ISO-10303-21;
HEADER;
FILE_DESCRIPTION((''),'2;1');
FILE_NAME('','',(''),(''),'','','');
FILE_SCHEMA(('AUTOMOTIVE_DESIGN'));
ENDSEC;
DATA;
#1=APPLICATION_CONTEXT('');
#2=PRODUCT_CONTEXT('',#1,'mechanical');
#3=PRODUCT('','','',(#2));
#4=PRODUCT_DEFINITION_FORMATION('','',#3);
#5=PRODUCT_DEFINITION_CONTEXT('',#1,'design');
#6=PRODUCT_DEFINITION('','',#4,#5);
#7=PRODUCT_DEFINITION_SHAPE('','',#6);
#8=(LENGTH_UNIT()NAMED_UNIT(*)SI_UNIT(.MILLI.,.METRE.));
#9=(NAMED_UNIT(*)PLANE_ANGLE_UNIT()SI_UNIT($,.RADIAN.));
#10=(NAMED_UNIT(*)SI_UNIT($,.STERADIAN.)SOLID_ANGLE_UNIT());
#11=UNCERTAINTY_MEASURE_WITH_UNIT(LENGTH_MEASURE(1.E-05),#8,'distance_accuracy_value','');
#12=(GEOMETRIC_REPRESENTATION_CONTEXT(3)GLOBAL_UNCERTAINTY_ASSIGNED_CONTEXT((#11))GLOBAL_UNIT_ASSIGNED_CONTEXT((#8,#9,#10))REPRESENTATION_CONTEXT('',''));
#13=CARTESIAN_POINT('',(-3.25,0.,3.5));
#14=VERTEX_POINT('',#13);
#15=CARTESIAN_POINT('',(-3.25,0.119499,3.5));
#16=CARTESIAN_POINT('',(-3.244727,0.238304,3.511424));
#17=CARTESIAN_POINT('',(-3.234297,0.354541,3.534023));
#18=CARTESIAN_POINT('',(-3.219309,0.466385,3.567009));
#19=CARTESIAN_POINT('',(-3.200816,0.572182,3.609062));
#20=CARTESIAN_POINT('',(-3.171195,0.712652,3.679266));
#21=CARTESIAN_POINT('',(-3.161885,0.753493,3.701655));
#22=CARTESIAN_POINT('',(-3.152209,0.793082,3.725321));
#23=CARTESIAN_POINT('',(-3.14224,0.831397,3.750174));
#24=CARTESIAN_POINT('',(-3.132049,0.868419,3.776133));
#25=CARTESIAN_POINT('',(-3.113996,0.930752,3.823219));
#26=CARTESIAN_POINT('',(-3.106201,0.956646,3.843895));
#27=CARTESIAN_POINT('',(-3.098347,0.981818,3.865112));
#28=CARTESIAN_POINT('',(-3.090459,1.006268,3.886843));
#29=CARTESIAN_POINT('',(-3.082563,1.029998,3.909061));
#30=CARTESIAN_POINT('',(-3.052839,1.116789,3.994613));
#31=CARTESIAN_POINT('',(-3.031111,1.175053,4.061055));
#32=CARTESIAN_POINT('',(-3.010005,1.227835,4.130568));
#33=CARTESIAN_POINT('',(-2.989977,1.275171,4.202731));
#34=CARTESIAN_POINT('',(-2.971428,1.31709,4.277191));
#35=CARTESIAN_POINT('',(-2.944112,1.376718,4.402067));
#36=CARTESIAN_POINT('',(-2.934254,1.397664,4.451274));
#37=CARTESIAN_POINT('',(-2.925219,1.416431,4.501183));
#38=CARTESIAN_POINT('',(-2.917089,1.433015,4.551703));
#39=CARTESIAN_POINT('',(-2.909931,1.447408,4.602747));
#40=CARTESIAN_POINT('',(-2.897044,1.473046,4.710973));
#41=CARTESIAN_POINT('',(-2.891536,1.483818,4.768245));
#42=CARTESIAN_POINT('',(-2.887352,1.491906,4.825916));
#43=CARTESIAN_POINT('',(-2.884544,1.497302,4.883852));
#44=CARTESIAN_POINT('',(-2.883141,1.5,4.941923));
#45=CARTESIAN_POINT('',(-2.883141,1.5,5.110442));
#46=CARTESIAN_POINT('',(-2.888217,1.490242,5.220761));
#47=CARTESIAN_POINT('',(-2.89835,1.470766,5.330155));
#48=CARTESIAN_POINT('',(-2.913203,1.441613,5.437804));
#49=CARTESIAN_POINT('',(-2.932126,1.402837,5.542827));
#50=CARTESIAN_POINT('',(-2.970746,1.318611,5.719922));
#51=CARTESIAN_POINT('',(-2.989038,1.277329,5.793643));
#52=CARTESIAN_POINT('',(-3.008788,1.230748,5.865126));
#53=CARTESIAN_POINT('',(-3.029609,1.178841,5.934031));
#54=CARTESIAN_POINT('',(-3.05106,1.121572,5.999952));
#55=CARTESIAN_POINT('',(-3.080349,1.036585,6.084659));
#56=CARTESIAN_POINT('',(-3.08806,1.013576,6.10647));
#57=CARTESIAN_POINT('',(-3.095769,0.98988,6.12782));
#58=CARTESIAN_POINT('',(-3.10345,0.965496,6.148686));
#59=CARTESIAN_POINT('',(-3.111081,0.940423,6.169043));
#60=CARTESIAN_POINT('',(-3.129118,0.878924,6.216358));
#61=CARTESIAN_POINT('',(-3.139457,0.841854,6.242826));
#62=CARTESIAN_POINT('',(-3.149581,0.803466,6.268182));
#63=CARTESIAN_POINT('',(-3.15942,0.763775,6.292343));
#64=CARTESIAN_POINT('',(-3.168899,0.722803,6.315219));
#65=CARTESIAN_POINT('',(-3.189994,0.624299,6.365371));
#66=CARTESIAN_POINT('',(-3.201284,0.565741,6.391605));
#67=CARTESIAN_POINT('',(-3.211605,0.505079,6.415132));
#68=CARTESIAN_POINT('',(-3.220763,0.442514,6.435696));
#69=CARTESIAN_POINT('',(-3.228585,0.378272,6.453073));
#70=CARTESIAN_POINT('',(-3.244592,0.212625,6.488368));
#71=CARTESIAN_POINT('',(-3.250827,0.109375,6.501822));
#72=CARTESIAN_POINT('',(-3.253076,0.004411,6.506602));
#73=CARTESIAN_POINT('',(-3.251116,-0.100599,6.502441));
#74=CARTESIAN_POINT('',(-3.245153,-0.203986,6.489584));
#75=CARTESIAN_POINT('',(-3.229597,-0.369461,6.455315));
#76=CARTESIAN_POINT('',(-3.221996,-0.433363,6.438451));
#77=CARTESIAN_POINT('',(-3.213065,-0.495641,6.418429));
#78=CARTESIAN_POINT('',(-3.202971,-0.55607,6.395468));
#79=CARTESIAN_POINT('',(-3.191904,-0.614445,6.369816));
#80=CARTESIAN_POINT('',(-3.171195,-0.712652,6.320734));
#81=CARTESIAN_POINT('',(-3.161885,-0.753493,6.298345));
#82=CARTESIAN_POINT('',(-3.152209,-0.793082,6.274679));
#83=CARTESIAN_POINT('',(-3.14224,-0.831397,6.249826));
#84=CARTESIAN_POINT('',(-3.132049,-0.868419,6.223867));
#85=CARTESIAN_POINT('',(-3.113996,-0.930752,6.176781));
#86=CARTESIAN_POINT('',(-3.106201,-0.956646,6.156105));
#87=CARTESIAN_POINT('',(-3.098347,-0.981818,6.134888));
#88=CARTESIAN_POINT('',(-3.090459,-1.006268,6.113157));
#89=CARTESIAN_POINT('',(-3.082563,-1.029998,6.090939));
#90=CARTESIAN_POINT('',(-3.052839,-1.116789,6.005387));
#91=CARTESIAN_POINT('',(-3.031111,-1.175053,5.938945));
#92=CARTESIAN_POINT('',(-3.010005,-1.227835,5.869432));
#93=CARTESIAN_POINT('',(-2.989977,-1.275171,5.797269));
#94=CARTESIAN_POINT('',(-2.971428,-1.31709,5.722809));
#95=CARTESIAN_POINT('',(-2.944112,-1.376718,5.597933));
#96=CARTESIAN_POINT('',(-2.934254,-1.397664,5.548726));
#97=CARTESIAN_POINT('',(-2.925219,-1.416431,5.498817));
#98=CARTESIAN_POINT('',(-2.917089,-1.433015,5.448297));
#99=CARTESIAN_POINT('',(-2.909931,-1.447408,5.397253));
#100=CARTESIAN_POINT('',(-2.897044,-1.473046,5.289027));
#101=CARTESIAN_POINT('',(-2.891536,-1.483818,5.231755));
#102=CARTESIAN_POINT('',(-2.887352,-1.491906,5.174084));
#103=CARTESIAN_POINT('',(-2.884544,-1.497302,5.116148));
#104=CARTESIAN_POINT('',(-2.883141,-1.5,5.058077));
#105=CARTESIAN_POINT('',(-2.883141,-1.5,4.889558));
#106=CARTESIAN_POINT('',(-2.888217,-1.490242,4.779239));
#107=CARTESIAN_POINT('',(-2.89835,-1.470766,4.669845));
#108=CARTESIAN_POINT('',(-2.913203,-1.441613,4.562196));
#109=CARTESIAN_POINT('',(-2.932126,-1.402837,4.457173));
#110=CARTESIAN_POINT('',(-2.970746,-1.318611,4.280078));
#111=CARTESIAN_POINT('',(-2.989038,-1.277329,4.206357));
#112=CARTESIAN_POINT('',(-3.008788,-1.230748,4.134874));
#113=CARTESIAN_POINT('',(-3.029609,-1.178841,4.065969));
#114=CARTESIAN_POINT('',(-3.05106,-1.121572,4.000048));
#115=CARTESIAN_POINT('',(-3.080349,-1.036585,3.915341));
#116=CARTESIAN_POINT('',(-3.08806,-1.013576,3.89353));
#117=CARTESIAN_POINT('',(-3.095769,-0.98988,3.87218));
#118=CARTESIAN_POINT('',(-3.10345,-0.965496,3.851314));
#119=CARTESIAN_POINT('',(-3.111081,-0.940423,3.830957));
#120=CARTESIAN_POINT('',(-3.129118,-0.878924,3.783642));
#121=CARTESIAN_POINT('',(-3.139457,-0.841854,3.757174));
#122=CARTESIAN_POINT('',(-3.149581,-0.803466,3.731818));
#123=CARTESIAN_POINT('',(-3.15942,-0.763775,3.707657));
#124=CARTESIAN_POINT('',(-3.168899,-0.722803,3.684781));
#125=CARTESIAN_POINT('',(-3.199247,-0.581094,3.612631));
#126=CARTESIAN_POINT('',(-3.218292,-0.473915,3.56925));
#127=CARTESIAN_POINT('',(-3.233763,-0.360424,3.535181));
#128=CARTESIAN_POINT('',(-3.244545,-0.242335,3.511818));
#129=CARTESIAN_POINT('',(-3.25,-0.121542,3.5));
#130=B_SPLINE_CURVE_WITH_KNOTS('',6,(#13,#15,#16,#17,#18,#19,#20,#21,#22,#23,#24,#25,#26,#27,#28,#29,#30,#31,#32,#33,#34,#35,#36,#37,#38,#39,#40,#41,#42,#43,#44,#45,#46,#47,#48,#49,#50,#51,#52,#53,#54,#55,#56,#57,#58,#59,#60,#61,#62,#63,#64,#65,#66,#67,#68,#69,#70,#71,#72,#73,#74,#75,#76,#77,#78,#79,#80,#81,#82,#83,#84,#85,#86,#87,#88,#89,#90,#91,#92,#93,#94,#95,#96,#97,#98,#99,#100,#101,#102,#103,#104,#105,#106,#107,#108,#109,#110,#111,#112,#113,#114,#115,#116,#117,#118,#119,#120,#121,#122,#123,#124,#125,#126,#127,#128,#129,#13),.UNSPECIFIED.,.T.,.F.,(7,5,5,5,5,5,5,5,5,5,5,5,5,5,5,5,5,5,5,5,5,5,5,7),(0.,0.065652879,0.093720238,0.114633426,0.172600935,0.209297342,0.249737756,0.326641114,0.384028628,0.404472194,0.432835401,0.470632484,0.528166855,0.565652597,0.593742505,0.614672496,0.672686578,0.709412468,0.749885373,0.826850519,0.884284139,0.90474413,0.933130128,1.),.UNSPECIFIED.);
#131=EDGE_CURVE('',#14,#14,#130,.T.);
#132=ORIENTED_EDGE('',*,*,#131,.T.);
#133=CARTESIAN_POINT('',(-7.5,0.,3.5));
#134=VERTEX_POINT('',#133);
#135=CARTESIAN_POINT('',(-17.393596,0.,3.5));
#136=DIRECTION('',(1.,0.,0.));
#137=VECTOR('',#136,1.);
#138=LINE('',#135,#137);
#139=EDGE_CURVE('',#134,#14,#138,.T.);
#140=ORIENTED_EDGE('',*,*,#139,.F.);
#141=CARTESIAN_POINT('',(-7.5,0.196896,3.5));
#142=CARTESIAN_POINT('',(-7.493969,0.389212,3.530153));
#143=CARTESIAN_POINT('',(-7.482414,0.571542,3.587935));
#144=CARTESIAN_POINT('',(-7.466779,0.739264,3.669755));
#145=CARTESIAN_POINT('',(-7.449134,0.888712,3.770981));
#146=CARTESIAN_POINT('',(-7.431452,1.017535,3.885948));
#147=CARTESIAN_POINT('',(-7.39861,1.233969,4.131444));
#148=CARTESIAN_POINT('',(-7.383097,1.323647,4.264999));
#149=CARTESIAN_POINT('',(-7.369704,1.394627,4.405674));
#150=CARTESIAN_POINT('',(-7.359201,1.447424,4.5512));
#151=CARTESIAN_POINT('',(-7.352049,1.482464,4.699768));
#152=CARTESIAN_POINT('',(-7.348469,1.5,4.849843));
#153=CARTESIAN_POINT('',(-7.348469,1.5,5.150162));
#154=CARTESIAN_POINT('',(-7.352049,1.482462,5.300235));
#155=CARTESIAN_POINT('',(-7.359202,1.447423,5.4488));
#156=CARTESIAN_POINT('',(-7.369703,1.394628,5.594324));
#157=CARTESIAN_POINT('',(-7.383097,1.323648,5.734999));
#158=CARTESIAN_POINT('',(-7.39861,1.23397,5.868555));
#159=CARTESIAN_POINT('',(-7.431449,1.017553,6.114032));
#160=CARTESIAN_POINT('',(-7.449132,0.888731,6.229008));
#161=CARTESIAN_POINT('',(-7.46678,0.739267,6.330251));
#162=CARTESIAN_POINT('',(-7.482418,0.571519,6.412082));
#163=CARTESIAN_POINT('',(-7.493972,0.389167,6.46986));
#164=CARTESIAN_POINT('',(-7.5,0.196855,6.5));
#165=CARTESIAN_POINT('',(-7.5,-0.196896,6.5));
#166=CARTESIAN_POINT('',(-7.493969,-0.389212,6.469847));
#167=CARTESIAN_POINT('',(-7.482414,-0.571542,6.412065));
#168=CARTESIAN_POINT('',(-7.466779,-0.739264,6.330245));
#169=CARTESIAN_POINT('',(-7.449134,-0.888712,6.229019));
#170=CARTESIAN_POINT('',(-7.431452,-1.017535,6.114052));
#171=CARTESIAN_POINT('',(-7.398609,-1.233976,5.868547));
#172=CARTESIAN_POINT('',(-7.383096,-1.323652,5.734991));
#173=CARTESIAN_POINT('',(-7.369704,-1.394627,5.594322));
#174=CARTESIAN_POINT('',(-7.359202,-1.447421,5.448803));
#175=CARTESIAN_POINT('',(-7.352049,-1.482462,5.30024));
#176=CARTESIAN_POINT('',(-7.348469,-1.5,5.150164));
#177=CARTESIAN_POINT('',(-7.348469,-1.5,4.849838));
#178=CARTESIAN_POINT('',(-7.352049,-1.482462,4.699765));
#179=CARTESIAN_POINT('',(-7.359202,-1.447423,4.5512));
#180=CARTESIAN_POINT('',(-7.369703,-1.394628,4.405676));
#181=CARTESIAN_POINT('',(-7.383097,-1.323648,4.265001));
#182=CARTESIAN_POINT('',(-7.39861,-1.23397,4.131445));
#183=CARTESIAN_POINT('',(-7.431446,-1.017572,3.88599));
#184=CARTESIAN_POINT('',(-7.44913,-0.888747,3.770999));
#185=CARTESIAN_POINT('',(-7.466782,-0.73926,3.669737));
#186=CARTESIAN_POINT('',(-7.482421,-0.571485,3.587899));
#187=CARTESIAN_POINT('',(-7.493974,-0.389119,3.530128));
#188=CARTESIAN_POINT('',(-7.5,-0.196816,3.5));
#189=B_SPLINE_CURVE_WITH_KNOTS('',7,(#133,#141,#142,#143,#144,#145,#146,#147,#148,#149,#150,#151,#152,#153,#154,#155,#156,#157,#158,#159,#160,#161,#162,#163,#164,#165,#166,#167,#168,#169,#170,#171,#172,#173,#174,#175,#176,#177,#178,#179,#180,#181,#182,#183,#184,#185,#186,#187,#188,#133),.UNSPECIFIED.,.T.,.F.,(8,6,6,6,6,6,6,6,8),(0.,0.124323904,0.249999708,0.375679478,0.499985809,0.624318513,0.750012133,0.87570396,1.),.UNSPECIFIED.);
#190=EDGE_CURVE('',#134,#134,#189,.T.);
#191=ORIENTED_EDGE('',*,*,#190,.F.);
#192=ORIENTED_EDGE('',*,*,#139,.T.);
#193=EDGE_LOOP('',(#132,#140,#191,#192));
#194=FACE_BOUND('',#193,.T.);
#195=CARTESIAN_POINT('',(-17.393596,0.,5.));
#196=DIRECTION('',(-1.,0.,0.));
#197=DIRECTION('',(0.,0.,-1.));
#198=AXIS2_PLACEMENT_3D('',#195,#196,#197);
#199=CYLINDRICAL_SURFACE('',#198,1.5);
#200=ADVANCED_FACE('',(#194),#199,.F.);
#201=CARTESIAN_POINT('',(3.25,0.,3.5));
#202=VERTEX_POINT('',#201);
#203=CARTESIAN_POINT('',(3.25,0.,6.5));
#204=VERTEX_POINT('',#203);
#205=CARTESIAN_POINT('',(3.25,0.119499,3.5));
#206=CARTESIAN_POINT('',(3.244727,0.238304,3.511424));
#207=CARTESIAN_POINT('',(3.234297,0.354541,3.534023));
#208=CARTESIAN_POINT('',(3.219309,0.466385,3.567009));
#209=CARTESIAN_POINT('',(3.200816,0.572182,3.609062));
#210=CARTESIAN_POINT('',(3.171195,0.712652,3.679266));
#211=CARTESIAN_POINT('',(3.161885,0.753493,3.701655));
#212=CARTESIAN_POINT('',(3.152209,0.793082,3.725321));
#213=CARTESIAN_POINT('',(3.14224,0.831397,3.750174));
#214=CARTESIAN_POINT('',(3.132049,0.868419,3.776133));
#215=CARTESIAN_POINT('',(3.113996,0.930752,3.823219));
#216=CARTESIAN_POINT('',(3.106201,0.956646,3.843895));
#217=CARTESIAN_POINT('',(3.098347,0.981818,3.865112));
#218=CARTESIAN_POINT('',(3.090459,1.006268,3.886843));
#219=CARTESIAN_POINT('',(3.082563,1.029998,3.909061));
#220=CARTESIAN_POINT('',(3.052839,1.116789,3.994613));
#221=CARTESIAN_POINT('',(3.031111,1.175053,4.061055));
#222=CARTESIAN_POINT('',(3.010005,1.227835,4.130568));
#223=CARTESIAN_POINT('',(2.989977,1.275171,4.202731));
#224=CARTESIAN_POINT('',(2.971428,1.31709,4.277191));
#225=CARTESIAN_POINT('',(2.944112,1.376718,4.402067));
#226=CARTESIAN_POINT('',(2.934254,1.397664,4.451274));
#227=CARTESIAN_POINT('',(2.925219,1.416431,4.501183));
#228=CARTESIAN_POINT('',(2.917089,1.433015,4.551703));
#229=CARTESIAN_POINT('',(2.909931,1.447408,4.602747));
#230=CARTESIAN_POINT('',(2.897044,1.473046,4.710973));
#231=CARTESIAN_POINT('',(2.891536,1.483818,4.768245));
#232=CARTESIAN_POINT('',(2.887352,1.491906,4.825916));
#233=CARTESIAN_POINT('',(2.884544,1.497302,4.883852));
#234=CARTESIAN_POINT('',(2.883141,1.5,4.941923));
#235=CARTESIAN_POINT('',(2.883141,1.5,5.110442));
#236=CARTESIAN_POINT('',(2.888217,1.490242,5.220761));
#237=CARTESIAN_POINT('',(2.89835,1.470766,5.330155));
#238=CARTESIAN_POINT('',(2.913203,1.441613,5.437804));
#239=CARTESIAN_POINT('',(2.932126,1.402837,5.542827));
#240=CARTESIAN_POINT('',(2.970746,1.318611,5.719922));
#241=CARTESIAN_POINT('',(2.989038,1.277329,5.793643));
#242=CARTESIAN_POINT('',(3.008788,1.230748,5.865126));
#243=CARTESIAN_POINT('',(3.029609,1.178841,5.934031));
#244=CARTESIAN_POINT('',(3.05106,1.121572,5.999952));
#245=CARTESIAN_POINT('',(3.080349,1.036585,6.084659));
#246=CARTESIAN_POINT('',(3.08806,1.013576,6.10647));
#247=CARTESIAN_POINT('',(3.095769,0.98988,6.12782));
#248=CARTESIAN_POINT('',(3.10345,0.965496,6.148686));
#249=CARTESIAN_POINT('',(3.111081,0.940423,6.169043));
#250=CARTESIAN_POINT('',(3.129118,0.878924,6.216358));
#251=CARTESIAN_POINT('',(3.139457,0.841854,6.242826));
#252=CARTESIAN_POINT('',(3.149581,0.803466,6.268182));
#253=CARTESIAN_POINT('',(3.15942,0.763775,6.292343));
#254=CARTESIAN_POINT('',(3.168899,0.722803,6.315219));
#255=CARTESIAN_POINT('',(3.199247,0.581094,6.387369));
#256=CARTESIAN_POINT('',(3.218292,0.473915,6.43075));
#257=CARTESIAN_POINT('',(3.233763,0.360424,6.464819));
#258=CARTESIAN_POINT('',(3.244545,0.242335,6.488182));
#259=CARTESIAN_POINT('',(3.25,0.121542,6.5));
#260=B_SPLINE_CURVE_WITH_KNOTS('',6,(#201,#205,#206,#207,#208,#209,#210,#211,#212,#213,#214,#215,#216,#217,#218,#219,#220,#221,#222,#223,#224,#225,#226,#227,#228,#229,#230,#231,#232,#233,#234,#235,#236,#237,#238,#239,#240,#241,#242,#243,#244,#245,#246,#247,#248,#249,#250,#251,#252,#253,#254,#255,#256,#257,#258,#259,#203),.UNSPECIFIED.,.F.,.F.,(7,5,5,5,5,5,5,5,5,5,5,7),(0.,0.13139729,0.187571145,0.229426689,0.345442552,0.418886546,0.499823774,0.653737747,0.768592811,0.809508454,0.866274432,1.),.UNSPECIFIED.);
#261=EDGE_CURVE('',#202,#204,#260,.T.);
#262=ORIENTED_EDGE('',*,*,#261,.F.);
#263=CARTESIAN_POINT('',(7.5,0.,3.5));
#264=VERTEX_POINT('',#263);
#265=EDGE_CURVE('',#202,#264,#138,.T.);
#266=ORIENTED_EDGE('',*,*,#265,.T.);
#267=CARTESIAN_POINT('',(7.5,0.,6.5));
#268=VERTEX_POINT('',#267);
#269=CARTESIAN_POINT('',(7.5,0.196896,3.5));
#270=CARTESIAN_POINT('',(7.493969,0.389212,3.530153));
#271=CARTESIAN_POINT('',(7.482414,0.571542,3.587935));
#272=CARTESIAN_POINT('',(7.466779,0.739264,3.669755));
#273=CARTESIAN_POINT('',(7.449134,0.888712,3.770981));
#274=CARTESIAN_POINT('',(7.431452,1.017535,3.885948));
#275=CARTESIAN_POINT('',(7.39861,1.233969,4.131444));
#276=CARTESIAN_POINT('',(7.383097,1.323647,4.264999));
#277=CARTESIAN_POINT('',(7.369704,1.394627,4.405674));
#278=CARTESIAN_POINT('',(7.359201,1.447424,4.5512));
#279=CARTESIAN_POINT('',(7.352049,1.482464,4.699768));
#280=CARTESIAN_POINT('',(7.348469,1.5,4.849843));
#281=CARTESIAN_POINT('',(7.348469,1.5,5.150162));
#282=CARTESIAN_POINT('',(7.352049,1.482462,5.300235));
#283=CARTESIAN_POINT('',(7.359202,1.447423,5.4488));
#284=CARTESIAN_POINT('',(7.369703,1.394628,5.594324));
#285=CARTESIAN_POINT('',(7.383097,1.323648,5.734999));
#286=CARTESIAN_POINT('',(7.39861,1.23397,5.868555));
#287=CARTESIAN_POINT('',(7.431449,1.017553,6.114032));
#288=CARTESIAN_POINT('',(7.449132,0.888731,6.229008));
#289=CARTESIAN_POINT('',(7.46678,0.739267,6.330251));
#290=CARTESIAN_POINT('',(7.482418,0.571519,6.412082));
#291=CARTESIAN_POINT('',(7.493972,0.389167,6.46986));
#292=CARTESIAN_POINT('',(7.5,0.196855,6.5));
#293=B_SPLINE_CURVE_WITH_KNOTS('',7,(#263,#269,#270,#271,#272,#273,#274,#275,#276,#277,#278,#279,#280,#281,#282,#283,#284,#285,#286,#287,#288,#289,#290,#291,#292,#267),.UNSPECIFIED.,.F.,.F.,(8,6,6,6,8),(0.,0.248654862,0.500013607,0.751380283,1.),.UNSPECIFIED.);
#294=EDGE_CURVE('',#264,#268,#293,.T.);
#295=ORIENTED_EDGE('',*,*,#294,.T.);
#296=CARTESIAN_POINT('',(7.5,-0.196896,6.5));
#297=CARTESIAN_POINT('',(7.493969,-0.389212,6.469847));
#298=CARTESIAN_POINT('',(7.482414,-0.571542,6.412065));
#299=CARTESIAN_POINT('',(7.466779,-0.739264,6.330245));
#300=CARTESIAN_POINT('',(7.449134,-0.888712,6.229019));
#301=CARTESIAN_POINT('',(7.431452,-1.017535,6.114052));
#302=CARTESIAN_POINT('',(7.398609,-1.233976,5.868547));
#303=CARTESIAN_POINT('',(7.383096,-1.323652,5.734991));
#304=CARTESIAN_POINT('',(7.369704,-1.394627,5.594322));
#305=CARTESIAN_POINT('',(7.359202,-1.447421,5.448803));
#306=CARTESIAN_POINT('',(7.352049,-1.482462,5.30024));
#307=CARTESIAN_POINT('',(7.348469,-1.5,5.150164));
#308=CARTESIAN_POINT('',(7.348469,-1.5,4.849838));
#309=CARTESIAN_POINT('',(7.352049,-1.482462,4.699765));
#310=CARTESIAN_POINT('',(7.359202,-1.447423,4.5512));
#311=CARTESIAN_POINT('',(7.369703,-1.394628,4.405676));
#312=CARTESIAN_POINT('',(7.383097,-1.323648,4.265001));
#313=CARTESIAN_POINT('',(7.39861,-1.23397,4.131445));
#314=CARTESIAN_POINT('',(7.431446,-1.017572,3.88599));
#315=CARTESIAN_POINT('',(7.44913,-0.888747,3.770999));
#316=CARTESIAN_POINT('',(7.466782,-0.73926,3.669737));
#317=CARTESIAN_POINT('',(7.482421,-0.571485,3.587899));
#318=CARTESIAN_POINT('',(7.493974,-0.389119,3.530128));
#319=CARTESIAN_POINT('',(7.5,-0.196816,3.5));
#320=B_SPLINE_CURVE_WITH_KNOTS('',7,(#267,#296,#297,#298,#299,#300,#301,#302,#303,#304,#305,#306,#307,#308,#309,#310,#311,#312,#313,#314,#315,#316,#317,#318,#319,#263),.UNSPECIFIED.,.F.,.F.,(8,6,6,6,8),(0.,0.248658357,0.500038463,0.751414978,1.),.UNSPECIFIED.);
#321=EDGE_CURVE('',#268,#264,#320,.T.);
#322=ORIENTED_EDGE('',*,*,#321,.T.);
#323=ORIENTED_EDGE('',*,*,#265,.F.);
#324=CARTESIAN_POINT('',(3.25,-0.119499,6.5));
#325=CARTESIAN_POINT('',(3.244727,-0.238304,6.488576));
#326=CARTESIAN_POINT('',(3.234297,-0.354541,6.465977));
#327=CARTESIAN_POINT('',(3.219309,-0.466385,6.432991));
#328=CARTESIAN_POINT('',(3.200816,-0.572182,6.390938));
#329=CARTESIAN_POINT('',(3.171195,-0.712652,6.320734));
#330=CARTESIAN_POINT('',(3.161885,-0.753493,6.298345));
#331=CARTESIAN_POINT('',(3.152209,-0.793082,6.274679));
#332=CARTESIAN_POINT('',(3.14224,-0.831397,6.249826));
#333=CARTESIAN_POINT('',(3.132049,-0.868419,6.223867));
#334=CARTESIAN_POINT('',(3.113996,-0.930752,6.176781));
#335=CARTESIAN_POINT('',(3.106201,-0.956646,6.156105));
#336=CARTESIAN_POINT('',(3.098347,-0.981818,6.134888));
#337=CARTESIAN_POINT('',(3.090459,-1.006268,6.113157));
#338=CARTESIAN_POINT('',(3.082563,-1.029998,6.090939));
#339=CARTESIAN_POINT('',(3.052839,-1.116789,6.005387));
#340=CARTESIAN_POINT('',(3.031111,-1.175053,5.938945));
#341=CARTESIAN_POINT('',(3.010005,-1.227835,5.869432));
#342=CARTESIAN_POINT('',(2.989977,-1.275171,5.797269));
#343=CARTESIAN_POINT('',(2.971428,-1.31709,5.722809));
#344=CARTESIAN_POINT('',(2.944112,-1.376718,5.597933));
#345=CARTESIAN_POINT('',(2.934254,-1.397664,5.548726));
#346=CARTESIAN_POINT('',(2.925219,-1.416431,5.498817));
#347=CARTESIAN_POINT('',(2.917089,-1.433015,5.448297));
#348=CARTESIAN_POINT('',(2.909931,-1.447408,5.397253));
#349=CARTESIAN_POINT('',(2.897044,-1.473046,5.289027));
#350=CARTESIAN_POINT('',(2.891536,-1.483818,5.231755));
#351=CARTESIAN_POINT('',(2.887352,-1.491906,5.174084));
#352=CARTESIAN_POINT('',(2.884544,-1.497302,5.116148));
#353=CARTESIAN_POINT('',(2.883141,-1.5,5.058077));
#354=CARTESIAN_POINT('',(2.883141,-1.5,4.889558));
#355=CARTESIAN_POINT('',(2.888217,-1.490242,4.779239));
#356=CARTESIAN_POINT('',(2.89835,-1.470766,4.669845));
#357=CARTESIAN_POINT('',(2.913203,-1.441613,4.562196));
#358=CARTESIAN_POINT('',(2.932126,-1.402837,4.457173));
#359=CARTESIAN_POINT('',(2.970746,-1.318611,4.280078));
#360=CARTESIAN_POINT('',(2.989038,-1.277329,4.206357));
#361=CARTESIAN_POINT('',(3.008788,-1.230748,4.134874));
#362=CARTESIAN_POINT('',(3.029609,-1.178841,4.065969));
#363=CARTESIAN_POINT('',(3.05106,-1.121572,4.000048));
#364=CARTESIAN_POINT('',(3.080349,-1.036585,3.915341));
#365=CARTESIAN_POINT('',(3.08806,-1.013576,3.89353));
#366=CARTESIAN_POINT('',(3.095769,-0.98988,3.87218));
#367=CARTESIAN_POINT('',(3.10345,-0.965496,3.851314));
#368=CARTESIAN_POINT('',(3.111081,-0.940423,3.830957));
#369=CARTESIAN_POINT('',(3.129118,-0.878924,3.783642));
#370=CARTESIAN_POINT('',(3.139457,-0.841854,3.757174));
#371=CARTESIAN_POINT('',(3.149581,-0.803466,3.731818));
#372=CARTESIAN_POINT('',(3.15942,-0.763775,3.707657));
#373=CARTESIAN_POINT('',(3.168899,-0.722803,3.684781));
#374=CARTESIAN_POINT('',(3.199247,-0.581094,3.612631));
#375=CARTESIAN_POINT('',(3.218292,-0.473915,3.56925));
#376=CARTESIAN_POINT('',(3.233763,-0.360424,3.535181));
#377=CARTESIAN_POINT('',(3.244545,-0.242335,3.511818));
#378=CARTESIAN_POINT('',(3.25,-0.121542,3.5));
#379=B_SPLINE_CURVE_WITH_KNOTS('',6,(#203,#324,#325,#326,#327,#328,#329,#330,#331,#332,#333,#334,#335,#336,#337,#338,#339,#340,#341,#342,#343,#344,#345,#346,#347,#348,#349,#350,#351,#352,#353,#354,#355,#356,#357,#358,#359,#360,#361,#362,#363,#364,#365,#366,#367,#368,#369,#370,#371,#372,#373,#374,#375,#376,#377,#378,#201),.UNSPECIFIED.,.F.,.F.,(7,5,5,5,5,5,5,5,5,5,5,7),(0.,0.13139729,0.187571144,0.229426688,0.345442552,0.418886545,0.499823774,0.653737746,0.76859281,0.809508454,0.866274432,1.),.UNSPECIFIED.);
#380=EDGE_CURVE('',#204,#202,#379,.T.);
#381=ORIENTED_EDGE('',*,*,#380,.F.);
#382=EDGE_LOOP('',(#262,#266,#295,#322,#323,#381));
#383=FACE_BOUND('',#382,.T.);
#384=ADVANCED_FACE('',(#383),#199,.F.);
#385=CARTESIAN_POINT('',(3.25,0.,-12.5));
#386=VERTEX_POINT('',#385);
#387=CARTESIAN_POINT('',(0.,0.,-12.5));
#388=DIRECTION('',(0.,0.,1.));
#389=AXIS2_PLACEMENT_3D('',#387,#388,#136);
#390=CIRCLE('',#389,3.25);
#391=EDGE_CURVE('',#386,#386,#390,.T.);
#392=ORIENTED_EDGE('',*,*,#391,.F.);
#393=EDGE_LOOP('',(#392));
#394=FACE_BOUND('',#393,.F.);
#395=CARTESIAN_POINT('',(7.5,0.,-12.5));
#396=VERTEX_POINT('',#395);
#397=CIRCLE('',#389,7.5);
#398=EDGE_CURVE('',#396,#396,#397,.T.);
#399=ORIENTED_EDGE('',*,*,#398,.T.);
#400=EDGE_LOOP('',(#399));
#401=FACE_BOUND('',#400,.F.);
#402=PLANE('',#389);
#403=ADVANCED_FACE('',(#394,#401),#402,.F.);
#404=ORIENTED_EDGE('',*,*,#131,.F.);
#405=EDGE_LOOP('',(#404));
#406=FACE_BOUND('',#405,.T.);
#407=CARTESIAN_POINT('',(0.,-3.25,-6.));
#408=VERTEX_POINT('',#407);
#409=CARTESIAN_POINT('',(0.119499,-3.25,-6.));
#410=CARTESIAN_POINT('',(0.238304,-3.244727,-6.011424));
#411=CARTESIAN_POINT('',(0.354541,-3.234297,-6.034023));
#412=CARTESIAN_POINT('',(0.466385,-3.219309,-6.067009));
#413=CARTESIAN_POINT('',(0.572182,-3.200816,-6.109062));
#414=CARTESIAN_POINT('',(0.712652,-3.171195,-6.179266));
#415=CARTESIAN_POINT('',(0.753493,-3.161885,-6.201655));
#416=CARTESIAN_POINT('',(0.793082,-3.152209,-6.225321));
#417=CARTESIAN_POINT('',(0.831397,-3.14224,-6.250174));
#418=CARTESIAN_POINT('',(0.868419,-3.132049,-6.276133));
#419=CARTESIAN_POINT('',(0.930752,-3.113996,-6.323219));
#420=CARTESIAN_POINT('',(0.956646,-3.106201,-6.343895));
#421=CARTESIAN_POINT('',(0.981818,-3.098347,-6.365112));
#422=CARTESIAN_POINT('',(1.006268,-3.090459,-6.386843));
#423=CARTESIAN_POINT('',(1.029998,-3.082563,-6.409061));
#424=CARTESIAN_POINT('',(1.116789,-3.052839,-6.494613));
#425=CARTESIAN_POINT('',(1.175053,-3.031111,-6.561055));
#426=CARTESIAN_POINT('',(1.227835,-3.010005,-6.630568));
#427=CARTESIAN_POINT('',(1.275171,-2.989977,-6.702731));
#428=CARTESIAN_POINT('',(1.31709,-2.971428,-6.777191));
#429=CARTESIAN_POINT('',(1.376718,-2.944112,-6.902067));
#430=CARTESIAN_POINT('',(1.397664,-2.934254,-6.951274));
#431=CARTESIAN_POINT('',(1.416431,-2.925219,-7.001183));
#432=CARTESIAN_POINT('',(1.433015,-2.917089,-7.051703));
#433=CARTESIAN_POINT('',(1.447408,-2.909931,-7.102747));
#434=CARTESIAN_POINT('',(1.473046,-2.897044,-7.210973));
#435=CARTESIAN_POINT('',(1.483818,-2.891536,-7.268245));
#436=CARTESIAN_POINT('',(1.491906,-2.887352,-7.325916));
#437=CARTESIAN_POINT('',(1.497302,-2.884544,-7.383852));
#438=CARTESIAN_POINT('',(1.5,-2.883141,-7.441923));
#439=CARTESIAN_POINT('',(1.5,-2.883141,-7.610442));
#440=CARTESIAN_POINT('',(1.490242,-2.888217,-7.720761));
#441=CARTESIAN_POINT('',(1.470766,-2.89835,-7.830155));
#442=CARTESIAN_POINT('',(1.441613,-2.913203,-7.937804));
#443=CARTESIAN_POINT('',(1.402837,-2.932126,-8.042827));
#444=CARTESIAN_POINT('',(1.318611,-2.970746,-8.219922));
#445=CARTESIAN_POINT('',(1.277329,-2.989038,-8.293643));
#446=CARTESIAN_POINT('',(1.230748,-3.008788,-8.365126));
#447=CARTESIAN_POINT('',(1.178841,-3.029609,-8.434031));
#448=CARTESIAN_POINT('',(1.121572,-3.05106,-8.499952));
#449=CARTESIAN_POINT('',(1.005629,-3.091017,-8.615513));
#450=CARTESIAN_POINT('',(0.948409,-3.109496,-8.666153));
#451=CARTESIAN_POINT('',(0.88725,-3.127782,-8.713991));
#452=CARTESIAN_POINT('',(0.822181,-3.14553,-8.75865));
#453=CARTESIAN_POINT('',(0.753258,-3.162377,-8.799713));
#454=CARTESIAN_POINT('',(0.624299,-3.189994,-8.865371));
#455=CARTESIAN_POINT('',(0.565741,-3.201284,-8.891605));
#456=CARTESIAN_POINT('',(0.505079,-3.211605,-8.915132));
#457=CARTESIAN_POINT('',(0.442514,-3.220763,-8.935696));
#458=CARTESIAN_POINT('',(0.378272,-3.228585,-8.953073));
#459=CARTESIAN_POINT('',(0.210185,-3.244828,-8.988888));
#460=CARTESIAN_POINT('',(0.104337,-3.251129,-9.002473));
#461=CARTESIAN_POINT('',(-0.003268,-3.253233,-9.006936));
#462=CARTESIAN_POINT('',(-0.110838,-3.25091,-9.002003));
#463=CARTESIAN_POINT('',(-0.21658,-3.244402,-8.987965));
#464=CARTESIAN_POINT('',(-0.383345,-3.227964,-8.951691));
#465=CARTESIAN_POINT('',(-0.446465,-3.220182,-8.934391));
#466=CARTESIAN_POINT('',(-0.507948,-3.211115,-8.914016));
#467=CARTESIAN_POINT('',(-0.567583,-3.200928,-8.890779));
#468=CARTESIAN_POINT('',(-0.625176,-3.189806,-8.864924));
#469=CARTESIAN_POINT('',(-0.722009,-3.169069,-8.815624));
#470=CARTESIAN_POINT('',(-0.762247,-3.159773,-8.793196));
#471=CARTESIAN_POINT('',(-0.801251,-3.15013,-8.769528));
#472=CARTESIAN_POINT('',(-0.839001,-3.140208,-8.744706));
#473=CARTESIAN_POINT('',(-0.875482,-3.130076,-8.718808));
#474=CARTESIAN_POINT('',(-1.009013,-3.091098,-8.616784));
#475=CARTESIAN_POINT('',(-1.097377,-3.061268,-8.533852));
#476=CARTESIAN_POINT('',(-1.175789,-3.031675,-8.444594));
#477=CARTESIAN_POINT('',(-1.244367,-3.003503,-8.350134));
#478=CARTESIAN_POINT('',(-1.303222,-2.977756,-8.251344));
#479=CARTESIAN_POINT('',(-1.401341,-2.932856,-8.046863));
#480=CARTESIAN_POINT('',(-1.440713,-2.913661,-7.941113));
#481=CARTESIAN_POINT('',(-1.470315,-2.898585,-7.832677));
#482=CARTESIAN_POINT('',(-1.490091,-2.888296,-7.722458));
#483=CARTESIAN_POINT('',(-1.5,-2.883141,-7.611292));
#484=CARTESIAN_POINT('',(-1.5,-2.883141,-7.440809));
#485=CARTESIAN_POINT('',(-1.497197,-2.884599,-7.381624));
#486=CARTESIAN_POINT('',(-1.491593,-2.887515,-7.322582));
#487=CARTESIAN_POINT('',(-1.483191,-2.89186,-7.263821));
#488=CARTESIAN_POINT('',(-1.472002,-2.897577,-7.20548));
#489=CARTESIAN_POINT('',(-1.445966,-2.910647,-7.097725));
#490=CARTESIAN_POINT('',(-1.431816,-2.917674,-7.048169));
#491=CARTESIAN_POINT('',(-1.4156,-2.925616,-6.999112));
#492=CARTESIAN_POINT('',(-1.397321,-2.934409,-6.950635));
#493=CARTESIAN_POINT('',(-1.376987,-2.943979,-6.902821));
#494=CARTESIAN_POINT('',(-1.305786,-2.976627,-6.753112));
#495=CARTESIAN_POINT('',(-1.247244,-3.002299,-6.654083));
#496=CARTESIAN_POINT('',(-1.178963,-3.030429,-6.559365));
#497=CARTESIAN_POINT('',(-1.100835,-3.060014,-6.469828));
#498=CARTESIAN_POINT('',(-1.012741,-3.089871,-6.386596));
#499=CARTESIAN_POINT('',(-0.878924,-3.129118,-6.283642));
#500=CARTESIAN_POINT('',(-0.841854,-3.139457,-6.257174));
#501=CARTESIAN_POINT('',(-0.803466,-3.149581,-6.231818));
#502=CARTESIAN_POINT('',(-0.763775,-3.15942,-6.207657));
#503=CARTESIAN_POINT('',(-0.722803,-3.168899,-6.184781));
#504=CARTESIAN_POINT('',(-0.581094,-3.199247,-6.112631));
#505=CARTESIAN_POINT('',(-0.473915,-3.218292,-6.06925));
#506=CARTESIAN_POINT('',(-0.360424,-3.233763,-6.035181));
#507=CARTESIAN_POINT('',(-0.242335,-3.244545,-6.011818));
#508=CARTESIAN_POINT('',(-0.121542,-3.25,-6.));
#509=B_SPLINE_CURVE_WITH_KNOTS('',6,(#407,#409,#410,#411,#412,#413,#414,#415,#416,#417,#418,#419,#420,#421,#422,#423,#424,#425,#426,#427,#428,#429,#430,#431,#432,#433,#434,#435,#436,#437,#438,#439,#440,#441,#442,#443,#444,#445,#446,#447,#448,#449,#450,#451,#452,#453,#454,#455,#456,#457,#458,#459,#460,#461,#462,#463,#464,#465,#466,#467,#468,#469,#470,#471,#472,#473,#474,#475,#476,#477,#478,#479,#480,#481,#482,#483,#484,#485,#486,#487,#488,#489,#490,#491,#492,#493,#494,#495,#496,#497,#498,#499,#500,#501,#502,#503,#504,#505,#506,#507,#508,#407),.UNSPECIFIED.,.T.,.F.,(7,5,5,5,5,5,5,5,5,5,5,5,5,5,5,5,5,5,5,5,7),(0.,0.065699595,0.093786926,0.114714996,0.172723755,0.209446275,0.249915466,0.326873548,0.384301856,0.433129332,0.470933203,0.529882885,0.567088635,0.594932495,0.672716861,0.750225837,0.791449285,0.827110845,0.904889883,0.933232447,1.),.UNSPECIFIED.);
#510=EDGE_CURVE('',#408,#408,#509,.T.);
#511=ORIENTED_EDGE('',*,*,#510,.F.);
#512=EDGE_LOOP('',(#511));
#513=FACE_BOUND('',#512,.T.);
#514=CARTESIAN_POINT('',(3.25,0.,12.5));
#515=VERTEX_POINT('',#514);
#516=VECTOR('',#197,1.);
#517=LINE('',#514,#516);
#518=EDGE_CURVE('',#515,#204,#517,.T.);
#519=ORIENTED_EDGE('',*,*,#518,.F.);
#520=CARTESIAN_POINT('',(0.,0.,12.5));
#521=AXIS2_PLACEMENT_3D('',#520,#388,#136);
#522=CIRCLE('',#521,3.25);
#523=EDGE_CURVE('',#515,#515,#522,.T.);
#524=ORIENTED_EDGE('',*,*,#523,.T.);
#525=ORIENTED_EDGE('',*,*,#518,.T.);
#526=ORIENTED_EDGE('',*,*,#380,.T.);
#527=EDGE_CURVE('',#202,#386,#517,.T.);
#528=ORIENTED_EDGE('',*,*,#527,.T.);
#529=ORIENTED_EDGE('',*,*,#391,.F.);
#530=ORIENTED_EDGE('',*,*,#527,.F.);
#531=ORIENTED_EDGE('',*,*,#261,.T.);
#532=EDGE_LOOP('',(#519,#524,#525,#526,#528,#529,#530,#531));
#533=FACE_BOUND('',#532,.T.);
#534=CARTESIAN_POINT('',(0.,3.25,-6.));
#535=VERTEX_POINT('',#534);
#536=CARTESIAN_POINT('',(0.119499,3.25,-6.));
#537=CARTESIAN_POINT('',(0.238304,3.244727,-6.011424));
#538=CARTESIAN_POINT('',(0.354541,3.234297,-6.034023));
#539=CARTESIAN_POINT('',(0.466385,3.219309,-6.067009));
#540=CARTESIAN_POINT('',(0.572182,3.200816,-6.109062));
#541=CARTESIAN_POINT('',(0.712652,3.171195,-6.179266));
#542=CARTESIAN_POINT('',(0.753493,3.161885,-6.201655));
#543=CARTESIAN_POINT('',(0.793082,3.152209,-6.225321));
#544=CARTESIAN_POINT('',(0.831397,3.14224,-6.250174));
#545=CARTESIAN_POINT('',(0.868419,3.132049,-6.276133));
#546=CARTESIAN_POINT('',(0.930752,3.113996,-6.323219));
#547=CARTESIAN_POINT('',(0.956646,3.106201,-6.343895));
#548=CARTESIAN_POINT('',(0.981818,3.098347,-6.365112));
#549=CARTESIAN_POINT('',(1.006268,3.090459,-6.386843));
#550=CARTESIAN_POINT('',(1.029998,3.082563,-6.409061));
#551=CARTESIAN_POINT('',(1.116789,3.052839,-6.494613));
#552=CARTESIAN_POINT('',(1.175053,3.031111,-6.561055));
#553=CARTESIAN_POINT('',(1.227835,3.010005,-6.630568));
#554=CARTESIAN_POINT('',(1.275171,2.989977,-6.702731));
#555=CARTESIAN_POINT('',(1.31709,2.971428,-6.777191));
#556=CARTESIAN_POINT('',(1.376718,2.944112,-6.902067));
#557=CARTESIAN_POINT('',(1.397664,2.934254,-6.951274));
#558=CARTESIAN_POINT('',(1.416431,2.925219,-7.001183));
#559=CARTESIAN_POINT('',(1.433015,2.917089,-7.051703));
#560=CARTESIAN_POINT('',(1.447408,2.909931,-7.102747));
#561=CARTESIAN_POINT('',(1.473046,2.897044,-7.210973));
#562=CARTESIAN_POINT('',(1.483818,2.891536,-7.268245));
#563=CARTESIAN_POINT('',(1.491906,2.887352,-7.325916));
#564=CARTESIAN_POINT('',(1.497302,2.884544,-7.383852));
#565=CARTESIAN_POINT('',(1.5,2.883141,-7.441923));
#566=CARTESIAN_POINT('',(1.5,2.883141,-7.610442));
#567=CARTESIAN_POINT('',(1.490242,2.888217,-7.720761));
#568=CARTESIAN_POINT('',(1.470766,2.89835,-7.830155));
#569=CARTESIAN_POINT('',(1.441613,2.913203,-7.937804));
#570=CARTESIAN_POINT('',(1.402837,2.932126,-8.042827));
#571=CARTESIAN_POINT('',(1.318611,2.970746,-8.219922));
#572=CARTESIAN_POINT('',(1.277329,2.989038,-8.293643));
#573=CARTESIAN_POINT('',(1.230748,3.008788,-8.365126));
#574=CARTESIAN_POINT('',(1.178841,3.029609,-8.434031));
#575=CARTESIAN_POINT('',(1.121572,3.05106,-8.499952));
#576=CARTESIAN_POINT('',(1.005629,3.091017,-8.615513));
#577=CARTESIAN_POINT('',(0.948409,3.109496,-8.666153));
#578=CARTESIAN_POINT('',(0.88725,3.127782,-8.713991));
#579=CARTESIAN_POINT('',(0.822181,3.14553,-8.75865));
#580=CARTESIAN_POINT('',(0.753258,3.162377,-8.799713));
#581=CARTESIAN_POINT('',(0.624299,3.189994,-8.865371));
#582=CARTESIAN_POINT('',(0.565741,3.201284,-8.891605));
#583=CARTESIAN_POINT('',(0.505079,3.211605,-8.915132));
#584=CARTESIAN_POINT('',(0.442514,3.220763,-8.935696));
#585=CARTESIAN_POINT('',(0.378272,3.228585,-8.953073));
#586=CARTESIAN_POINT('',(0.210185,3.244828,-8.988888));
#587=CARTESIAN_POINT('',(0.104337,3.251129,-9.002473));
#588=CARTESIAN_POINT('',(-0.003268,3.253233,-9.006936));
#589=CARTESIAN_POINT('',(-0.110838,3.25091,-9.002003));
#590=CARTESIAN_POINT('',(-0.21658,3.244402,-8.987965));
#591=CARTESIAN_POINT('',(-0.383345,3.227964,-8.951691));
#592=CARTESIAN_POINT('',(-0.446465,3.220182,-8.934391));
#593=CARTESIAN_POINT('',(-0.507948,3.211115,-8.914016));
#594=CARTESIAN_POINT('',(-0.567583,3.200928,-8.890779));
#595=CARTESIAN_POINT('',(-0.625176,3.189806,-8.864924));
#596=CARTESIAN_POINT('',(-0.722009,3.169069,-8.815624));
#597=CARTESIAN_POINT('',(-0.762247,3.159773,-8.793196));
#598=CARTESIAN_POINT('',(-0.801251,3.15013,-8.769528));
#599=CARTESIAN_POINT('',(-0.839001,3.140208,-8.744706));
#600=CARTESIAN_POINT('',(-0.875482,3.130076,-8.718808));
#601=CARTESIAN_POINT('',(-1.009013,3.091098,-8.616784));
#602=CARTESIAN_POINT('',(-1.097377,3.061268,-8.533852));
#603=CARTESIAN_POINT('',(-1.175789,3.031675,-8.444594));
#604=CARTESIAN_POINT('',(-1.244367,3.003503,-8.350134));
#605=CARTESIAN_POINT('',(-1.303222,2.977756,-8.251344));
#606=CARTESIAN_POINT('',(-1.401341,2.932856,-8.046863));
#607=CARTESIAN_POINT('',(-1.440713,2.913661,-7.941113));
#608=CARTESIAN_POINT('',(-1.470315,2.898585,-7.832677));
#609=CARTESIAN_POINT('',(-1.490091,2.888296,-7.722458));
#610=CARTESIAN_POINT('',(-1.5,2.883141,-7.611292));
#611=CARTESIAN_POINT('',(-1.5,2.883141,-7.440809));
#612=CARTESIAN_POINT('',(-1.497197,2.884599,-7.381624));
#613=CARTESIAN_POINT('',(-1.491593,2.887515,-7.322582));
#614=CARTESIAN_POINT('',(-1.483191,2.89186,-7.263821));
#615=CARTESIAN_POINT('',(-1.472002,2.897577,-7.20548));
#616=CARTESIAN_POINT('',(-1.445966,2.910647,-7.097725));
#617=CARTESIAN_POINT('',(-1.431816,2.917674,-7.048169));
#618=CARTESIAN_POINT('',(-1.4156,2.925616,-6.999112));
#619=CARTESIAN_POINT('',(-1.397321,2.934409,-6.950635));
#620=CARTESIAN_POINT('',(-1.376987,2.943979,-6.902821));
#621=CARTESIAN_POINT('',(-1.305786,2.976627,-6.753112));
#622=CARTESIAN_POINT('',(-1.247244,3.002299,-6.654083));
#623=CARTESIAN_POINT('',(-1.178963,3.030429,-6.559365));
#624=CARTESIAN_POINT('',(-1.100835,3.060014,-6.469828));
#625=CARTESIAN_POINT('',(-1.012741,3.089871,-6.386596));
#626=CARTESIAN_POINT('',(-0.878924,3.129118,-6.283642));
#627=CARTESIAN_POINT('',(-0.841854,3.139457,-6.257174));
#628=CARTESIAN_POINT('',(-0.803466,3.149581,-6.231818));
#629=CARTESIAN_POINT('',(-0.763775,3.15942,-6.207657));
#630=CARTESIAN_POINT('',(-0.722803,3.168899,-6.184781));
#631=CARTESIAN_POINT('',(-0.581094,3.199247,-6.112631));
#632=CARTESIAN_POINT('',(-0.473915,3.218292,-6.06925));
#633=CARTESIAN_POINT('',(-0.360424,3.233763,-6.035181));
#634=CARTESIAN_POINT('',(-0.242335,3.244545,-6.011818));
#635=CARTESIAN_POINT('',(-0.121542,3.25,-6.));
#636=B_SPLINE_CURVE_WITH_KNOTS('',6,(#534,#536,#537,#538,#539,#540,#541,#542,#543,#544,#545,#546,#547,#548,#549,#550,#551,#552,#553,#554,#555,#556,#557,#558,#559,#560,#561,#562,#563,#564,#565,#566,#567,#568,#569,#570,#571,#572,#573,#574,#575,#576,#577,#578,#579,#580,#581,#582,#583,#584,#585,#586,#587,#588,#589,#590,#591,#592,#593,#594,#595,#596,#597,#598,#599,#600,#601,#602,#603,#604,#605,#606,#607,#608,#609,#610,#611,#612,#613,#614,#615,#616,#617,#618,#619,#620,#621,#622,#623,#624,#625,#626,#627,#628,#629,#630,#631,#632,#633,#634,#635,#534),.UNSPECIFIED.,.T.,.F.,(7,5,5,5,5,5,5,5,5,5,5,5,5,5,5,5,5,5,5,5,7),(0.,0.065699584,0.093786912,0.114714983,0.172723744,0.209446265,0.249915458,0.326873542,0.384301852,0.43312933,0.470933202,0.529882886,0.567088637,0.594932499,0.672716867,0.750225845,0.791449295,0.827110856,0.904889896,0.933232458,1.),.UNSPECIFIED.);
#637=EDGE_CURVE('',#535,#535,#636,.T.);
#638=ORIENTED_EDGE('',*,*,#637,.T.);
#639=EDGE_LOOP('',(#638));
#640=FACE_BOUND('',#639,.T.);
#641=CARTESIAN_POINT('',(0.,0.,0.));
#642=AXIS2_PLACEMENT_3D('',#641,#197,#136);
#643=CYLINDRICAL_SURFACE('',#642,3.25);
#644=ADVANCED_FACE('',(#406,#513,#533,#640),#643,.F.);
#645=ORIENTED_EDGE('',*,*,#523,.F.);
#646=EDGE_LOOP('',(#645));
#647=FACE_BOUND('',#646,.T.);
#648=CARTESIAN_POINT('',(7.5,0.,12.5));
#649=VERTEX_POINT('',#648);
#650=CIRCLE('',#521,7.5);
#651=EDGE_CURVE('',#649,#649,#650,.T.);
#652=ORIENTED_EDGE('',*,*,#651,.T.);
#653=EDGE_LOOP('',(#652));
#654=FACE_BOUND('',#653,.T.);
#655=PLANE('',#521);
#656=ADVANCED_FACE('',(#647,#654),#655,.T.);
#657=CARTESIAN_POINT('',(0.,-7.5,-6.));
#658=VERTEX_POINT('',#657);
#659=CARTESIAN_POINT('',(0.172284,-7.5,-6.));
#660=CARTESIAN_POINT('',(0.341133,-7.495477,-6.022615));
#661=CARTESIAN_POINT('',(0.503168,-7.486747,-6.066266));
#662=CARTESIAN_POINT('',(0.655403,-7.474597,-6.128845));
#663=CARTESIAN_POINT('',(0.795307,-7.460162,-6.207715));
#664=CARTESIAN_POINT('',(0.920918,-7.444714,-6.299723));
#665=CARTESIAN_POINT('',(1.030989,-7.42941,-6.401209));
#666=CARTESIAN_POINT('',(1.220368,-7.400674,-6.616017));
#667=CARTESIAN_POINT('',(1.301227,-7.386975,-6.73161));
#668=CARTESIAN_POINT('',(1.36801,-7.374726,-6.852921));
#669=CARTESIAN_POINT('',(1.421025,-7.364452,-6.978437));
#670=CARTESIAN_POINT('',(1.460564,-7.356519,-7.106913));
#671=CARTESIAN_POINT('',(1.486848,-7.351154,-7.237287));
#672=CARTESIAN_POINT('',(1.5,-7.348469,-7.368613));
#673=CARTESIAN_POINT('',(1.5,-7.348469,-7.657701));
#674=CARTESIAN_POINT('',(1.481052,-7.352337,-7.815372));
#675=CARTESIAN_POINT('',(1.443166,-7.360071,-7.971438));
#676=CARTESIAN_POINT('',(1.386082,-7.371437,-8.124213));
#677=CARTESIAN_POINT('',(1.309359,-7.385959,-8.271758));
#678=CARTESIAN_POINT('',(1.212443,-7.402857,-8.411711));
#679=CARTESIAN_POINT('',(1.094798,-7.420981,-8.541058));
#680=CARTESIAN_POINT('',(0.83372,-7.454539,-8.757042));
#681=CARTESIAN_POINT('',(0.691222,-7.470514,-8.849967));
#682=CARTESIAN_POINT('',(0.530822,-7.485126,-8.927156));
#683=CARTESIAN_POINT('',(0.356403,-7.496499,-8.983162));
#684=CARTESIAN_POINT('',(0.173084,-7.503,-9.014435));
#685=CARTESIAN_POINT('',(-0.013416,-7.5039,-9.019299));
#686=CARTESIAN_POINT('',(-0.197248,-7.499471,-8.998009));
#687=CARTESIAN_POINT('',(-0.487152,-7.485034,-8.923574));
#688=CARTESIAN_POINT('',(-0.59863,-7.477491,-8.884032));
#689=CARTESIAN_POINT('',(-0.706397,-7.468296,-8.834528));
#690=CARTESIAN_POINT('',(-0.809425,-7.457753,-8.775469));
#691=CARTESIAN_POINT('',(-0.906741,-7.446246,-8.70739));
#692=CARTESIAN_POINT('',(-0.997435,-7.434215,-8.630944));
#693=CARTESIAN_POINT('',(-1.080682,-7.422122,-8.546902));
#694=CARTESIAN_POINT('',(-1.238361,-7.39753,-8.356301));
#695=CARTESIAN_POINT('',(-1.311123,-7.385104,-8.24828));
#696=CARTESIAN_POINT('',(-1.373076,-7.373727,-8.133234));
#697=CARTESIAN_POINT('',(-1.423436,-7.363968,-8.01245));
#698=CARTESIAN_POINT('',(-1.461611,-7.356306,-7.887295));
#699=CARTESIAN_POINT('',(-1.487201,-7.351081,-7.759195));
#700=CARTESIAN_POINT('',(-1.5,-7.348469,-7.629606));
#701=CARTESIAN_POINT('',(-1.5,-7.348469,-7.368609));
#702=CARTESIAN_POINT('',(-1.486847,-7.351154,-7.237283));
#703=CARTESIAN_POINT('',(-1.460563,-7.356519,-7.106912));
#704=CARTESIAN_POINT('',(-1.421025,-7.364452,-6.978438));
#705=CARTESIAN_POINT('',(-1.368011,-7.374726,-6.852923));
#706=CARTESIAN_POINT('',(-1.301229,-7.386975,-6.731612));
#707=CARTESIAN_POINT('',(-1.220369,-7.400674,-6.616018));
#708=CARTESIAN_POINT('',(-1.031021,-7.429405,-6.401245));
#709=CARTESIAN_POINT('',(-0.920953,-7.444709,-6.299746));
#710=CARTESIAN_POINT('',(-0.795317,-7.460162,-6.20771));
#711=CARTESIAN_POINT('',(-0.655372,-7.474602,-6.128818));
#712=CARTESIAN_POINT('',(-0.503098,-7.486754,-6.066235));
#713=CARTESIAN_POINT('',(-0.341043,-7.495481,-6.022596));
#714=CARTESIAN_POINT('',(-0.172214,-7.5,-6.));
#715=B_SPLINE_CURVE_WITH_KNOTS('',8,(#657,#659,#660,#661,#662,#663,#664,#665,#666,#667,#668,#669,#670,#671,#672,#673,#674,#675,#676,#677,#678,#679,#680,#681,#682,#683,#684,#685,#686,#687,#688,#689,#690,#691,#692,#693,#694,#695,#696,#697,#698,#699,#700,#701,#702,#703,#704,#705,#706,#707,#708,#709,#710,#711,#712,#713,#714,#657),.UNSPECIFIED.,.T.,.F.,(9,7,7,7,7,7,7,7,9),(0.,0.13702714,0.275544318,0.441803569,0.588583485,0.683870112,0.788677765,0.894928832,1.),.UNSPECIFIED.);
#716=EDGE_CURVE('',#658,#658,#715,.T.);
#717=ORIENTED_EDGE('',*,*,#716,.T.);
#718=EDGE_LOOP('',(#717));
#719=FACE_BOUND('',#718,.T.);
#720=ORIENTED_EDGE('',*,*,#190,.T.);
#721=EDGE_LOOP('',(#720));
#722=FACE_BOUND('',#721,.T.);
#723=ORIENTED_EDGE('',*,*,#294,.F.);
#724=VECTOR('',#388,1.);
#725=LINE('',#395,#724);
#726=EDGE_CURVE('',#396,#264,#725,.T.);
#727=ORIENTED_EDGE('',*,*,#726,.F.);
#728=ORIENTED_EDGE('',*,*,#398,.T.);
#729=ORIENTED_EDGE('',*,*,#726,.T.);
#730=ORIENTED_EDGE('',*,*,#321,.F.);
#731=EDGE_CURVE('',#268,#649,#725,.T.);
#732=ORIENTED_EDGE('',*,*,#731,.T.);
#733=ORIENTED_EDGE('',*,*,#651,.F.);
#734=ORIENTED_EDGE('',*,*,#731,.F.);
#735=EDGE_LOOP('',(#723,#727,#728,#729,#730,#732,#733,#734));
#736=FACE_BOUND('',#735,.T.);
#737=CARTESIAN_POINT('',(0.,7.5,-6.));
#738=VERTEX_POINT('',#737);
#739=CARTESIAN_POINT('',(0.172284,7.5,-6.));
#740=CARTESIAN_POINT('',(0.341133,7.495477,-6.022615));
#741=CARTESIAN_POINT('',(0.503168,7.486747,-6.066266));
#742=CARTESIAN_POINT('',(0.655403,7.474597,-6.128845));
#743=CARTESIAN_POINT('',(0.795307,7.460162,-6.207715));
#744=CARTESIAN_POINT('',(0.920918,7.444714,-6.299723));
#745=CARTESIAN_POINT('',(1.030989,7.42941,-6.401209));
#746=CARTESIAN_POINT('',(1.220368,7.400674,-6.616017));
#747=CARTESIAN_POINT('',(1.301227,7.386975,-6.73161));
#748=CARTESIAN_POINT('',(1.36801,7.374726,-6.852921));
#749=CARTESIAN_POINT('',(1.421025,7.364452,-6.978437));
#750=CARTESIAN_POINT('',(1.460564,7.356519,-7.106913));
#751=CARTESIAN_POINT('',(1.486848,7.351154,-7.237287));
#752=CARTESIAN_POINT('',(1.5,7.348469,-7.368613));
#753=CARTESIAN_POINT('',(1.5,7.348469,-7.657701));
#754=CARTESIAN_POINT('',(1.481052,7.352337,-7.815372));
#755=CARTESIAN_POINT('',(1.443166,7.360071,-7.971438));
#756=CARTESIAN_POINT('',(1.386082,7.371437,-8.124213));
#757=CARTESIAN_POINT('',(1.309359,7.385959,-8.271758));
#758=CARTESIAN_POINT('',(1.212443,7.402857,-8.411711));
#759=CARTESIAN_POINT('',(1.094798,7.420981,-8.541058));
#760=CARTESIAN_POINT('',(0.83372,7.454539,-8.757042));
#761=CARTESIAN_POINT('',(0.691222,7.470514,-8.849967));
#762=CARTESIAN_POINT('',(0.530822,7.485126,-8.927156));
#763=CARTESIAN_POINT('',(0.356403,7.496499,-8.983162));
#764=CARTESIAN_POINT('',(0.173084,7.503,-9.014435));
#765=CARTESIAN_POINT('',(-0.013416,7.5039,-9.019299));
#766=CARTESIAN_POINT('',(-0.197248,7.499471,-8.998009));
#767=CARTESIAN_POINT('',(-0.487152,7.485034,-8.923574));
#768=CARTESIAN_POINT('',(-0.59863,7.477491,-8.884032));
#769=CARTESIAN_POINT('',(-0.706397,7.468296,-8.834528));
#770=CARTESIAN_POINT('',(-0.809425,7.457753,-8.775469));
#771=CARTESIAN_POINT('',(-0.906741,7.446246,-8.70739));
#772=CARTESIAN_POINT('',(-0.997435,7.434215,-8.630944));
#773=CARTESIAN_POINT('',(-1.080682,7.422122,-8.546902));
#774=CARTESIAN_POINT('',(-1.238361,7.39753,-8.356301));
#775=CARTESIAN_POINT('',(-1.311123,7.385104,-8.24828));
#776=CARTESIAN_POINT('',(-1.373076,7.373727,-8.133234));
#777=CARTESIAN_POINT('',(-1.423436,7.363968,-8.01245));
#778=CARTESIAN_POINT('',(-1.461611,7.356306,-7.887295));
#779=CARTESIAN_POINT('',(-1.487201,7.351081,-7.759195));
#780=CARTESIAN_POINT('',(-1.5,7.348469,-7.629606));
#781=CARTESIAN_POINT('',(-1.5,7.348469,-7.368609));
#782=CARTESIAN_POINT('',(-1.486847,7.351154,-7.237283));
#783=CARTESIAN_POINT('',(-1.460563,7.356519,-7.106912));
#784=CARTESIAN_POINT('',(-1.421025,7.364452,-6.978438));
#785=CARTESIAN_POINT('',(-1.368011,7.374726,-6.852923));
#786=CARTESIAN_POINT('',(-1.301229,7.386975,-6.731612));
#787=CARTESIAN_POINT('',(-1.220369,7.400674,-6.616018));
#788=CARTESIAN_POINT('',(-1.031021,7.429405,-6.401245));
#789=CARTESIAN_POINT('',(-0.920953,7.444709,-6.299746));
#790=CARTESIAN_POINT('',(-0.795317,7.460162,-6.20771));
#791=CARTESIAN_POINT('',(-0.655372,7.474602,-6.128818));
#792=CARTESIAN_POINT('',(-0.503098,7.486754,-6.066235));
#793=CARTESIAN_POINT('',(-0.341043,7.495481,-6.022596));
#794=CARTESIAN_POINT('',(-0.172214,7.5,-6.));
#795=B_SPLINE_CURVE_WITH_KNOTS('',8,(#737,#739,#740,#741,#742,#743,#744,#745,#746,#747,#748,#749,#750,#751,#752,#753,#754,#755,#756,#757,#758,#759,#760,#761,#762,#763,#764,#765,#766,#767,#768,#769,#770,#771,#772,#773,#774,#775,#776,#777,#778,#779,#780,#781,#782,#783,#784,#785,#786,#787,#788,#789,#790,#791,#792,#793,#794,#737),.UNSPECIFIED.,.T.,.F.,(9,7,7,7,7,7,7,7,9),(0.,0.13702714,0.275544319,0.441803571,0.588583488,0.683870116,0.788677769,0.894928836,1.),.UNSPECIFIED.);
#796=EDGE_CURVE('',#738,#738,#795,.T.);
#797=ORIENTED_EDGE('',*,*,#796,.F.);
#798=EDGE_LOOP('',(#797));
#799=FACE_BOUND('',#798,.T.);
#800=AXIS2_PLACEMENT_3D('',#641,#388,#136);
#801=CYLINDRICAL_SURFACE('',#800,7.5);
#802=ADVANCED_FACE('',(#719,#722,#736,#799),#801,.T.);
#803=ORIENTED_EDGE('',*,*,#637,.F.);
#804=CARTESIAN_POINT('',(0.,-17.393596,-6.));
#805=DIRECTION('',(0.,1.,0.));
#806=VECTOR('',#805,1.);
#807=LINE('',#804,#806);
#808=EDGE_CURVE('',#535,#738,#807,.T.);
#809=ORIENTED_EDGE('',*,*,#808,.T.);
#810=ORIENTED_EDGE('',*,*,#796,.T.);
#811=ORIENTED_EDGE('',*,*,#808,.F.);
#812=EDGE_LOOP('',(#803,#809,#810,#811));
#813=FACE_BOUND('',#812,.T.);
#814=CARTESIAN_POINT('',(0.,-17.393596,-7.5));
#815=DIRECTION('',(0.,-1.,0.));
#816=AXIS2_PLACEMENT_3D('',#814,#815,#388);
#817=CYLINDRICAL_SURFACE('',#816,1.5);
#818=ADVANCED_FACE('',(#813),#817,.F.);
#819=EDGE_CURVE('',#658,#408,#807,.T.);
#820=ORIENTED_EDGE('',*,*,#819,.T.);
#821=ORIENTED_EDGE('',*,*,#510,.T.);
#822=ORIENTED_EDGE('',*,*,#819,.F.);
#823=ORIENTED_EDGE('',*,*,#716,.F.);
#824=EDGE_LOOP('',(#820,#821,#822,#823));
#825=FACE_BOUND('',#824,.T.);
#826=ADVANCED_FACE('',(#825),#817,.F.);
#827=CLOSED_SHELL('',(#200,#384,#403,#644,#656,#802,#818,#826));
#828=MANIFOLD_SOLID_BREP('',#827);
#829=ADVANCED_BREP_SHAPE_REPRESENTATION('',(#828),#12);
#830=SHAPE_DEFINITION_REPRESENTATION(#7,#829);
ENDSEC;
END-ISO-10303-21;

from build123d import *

# Parameters (mm, degrees)
SKETCH3_R               = 7.5
SKETCH3_R_2             = 3.25
BOSS_EXTRUDE1_DEPTH     = 12.5
CUT_EXTRUDE1_DEPTH      = 17.393596311
CUT_EXTRUDE1_DEPTH_BACK = 17.393596311
SKETCH4_R               = 1.5
CUT_EXTRUDE2_DEPTH      = 17.393596479
CUT_EXTRUDE2_DEPTH_BACK = 17.393596479
SKETCH5_R               = 1.5


with BuildPart() as part:
    # Sketch3 → Boss-Extrude1 (new, symmetric)
    with BuildSketch(Plane.XY):
        Circle(SKETCH3_R)
        Circle(SKETCH3_R_2, mode=Mode.SUBTRACT)
    extrude(amount=BOSS_EXTRUDE1_DEPTH, both=True)

    # Sketch4 → Cut-Extrude1 (cut, two sides: drawn at the far end of the back side and taken through both)
    with BuildSketch(Plane(origin=(0, 0, 0), x_dir=(0, 0, -1), z_dir=(1, 0, 0)).offset(-CUT_EXTRUDE1_DEPTH_BACK)):
        with Locations((-5, 0)):
            Circle(SKETCH4_R)
    extrude(amount=CUT_EXTRUDE1_DEPTH + CUT_EXTRUDE1_DEPTH_BACK, mode=Mode.SUBTRACT)

    # Sketch5 → Cut-Extrude2 (cut, two sides: drawn at the far end of the back side and taken through both)
    with BuildSketch(Plane(origin=(0, 0, 0), x_dir=(1, 0, 0), z_dir=(0, 1, 0)).offset(-CUT_EXTRUDE2_DEPTH_BACK)):
        with Locations(Location((0, 7.5, 0), (0, 0, 270))):
            Circle(SKETCH5_R)
    extrude(amount=CUT_EXTRUDE2_DEPTH + CUT_EXTRUDE2_DEPTH_BACK, mode=Mode.SUBTRACT)


solid = part.part
